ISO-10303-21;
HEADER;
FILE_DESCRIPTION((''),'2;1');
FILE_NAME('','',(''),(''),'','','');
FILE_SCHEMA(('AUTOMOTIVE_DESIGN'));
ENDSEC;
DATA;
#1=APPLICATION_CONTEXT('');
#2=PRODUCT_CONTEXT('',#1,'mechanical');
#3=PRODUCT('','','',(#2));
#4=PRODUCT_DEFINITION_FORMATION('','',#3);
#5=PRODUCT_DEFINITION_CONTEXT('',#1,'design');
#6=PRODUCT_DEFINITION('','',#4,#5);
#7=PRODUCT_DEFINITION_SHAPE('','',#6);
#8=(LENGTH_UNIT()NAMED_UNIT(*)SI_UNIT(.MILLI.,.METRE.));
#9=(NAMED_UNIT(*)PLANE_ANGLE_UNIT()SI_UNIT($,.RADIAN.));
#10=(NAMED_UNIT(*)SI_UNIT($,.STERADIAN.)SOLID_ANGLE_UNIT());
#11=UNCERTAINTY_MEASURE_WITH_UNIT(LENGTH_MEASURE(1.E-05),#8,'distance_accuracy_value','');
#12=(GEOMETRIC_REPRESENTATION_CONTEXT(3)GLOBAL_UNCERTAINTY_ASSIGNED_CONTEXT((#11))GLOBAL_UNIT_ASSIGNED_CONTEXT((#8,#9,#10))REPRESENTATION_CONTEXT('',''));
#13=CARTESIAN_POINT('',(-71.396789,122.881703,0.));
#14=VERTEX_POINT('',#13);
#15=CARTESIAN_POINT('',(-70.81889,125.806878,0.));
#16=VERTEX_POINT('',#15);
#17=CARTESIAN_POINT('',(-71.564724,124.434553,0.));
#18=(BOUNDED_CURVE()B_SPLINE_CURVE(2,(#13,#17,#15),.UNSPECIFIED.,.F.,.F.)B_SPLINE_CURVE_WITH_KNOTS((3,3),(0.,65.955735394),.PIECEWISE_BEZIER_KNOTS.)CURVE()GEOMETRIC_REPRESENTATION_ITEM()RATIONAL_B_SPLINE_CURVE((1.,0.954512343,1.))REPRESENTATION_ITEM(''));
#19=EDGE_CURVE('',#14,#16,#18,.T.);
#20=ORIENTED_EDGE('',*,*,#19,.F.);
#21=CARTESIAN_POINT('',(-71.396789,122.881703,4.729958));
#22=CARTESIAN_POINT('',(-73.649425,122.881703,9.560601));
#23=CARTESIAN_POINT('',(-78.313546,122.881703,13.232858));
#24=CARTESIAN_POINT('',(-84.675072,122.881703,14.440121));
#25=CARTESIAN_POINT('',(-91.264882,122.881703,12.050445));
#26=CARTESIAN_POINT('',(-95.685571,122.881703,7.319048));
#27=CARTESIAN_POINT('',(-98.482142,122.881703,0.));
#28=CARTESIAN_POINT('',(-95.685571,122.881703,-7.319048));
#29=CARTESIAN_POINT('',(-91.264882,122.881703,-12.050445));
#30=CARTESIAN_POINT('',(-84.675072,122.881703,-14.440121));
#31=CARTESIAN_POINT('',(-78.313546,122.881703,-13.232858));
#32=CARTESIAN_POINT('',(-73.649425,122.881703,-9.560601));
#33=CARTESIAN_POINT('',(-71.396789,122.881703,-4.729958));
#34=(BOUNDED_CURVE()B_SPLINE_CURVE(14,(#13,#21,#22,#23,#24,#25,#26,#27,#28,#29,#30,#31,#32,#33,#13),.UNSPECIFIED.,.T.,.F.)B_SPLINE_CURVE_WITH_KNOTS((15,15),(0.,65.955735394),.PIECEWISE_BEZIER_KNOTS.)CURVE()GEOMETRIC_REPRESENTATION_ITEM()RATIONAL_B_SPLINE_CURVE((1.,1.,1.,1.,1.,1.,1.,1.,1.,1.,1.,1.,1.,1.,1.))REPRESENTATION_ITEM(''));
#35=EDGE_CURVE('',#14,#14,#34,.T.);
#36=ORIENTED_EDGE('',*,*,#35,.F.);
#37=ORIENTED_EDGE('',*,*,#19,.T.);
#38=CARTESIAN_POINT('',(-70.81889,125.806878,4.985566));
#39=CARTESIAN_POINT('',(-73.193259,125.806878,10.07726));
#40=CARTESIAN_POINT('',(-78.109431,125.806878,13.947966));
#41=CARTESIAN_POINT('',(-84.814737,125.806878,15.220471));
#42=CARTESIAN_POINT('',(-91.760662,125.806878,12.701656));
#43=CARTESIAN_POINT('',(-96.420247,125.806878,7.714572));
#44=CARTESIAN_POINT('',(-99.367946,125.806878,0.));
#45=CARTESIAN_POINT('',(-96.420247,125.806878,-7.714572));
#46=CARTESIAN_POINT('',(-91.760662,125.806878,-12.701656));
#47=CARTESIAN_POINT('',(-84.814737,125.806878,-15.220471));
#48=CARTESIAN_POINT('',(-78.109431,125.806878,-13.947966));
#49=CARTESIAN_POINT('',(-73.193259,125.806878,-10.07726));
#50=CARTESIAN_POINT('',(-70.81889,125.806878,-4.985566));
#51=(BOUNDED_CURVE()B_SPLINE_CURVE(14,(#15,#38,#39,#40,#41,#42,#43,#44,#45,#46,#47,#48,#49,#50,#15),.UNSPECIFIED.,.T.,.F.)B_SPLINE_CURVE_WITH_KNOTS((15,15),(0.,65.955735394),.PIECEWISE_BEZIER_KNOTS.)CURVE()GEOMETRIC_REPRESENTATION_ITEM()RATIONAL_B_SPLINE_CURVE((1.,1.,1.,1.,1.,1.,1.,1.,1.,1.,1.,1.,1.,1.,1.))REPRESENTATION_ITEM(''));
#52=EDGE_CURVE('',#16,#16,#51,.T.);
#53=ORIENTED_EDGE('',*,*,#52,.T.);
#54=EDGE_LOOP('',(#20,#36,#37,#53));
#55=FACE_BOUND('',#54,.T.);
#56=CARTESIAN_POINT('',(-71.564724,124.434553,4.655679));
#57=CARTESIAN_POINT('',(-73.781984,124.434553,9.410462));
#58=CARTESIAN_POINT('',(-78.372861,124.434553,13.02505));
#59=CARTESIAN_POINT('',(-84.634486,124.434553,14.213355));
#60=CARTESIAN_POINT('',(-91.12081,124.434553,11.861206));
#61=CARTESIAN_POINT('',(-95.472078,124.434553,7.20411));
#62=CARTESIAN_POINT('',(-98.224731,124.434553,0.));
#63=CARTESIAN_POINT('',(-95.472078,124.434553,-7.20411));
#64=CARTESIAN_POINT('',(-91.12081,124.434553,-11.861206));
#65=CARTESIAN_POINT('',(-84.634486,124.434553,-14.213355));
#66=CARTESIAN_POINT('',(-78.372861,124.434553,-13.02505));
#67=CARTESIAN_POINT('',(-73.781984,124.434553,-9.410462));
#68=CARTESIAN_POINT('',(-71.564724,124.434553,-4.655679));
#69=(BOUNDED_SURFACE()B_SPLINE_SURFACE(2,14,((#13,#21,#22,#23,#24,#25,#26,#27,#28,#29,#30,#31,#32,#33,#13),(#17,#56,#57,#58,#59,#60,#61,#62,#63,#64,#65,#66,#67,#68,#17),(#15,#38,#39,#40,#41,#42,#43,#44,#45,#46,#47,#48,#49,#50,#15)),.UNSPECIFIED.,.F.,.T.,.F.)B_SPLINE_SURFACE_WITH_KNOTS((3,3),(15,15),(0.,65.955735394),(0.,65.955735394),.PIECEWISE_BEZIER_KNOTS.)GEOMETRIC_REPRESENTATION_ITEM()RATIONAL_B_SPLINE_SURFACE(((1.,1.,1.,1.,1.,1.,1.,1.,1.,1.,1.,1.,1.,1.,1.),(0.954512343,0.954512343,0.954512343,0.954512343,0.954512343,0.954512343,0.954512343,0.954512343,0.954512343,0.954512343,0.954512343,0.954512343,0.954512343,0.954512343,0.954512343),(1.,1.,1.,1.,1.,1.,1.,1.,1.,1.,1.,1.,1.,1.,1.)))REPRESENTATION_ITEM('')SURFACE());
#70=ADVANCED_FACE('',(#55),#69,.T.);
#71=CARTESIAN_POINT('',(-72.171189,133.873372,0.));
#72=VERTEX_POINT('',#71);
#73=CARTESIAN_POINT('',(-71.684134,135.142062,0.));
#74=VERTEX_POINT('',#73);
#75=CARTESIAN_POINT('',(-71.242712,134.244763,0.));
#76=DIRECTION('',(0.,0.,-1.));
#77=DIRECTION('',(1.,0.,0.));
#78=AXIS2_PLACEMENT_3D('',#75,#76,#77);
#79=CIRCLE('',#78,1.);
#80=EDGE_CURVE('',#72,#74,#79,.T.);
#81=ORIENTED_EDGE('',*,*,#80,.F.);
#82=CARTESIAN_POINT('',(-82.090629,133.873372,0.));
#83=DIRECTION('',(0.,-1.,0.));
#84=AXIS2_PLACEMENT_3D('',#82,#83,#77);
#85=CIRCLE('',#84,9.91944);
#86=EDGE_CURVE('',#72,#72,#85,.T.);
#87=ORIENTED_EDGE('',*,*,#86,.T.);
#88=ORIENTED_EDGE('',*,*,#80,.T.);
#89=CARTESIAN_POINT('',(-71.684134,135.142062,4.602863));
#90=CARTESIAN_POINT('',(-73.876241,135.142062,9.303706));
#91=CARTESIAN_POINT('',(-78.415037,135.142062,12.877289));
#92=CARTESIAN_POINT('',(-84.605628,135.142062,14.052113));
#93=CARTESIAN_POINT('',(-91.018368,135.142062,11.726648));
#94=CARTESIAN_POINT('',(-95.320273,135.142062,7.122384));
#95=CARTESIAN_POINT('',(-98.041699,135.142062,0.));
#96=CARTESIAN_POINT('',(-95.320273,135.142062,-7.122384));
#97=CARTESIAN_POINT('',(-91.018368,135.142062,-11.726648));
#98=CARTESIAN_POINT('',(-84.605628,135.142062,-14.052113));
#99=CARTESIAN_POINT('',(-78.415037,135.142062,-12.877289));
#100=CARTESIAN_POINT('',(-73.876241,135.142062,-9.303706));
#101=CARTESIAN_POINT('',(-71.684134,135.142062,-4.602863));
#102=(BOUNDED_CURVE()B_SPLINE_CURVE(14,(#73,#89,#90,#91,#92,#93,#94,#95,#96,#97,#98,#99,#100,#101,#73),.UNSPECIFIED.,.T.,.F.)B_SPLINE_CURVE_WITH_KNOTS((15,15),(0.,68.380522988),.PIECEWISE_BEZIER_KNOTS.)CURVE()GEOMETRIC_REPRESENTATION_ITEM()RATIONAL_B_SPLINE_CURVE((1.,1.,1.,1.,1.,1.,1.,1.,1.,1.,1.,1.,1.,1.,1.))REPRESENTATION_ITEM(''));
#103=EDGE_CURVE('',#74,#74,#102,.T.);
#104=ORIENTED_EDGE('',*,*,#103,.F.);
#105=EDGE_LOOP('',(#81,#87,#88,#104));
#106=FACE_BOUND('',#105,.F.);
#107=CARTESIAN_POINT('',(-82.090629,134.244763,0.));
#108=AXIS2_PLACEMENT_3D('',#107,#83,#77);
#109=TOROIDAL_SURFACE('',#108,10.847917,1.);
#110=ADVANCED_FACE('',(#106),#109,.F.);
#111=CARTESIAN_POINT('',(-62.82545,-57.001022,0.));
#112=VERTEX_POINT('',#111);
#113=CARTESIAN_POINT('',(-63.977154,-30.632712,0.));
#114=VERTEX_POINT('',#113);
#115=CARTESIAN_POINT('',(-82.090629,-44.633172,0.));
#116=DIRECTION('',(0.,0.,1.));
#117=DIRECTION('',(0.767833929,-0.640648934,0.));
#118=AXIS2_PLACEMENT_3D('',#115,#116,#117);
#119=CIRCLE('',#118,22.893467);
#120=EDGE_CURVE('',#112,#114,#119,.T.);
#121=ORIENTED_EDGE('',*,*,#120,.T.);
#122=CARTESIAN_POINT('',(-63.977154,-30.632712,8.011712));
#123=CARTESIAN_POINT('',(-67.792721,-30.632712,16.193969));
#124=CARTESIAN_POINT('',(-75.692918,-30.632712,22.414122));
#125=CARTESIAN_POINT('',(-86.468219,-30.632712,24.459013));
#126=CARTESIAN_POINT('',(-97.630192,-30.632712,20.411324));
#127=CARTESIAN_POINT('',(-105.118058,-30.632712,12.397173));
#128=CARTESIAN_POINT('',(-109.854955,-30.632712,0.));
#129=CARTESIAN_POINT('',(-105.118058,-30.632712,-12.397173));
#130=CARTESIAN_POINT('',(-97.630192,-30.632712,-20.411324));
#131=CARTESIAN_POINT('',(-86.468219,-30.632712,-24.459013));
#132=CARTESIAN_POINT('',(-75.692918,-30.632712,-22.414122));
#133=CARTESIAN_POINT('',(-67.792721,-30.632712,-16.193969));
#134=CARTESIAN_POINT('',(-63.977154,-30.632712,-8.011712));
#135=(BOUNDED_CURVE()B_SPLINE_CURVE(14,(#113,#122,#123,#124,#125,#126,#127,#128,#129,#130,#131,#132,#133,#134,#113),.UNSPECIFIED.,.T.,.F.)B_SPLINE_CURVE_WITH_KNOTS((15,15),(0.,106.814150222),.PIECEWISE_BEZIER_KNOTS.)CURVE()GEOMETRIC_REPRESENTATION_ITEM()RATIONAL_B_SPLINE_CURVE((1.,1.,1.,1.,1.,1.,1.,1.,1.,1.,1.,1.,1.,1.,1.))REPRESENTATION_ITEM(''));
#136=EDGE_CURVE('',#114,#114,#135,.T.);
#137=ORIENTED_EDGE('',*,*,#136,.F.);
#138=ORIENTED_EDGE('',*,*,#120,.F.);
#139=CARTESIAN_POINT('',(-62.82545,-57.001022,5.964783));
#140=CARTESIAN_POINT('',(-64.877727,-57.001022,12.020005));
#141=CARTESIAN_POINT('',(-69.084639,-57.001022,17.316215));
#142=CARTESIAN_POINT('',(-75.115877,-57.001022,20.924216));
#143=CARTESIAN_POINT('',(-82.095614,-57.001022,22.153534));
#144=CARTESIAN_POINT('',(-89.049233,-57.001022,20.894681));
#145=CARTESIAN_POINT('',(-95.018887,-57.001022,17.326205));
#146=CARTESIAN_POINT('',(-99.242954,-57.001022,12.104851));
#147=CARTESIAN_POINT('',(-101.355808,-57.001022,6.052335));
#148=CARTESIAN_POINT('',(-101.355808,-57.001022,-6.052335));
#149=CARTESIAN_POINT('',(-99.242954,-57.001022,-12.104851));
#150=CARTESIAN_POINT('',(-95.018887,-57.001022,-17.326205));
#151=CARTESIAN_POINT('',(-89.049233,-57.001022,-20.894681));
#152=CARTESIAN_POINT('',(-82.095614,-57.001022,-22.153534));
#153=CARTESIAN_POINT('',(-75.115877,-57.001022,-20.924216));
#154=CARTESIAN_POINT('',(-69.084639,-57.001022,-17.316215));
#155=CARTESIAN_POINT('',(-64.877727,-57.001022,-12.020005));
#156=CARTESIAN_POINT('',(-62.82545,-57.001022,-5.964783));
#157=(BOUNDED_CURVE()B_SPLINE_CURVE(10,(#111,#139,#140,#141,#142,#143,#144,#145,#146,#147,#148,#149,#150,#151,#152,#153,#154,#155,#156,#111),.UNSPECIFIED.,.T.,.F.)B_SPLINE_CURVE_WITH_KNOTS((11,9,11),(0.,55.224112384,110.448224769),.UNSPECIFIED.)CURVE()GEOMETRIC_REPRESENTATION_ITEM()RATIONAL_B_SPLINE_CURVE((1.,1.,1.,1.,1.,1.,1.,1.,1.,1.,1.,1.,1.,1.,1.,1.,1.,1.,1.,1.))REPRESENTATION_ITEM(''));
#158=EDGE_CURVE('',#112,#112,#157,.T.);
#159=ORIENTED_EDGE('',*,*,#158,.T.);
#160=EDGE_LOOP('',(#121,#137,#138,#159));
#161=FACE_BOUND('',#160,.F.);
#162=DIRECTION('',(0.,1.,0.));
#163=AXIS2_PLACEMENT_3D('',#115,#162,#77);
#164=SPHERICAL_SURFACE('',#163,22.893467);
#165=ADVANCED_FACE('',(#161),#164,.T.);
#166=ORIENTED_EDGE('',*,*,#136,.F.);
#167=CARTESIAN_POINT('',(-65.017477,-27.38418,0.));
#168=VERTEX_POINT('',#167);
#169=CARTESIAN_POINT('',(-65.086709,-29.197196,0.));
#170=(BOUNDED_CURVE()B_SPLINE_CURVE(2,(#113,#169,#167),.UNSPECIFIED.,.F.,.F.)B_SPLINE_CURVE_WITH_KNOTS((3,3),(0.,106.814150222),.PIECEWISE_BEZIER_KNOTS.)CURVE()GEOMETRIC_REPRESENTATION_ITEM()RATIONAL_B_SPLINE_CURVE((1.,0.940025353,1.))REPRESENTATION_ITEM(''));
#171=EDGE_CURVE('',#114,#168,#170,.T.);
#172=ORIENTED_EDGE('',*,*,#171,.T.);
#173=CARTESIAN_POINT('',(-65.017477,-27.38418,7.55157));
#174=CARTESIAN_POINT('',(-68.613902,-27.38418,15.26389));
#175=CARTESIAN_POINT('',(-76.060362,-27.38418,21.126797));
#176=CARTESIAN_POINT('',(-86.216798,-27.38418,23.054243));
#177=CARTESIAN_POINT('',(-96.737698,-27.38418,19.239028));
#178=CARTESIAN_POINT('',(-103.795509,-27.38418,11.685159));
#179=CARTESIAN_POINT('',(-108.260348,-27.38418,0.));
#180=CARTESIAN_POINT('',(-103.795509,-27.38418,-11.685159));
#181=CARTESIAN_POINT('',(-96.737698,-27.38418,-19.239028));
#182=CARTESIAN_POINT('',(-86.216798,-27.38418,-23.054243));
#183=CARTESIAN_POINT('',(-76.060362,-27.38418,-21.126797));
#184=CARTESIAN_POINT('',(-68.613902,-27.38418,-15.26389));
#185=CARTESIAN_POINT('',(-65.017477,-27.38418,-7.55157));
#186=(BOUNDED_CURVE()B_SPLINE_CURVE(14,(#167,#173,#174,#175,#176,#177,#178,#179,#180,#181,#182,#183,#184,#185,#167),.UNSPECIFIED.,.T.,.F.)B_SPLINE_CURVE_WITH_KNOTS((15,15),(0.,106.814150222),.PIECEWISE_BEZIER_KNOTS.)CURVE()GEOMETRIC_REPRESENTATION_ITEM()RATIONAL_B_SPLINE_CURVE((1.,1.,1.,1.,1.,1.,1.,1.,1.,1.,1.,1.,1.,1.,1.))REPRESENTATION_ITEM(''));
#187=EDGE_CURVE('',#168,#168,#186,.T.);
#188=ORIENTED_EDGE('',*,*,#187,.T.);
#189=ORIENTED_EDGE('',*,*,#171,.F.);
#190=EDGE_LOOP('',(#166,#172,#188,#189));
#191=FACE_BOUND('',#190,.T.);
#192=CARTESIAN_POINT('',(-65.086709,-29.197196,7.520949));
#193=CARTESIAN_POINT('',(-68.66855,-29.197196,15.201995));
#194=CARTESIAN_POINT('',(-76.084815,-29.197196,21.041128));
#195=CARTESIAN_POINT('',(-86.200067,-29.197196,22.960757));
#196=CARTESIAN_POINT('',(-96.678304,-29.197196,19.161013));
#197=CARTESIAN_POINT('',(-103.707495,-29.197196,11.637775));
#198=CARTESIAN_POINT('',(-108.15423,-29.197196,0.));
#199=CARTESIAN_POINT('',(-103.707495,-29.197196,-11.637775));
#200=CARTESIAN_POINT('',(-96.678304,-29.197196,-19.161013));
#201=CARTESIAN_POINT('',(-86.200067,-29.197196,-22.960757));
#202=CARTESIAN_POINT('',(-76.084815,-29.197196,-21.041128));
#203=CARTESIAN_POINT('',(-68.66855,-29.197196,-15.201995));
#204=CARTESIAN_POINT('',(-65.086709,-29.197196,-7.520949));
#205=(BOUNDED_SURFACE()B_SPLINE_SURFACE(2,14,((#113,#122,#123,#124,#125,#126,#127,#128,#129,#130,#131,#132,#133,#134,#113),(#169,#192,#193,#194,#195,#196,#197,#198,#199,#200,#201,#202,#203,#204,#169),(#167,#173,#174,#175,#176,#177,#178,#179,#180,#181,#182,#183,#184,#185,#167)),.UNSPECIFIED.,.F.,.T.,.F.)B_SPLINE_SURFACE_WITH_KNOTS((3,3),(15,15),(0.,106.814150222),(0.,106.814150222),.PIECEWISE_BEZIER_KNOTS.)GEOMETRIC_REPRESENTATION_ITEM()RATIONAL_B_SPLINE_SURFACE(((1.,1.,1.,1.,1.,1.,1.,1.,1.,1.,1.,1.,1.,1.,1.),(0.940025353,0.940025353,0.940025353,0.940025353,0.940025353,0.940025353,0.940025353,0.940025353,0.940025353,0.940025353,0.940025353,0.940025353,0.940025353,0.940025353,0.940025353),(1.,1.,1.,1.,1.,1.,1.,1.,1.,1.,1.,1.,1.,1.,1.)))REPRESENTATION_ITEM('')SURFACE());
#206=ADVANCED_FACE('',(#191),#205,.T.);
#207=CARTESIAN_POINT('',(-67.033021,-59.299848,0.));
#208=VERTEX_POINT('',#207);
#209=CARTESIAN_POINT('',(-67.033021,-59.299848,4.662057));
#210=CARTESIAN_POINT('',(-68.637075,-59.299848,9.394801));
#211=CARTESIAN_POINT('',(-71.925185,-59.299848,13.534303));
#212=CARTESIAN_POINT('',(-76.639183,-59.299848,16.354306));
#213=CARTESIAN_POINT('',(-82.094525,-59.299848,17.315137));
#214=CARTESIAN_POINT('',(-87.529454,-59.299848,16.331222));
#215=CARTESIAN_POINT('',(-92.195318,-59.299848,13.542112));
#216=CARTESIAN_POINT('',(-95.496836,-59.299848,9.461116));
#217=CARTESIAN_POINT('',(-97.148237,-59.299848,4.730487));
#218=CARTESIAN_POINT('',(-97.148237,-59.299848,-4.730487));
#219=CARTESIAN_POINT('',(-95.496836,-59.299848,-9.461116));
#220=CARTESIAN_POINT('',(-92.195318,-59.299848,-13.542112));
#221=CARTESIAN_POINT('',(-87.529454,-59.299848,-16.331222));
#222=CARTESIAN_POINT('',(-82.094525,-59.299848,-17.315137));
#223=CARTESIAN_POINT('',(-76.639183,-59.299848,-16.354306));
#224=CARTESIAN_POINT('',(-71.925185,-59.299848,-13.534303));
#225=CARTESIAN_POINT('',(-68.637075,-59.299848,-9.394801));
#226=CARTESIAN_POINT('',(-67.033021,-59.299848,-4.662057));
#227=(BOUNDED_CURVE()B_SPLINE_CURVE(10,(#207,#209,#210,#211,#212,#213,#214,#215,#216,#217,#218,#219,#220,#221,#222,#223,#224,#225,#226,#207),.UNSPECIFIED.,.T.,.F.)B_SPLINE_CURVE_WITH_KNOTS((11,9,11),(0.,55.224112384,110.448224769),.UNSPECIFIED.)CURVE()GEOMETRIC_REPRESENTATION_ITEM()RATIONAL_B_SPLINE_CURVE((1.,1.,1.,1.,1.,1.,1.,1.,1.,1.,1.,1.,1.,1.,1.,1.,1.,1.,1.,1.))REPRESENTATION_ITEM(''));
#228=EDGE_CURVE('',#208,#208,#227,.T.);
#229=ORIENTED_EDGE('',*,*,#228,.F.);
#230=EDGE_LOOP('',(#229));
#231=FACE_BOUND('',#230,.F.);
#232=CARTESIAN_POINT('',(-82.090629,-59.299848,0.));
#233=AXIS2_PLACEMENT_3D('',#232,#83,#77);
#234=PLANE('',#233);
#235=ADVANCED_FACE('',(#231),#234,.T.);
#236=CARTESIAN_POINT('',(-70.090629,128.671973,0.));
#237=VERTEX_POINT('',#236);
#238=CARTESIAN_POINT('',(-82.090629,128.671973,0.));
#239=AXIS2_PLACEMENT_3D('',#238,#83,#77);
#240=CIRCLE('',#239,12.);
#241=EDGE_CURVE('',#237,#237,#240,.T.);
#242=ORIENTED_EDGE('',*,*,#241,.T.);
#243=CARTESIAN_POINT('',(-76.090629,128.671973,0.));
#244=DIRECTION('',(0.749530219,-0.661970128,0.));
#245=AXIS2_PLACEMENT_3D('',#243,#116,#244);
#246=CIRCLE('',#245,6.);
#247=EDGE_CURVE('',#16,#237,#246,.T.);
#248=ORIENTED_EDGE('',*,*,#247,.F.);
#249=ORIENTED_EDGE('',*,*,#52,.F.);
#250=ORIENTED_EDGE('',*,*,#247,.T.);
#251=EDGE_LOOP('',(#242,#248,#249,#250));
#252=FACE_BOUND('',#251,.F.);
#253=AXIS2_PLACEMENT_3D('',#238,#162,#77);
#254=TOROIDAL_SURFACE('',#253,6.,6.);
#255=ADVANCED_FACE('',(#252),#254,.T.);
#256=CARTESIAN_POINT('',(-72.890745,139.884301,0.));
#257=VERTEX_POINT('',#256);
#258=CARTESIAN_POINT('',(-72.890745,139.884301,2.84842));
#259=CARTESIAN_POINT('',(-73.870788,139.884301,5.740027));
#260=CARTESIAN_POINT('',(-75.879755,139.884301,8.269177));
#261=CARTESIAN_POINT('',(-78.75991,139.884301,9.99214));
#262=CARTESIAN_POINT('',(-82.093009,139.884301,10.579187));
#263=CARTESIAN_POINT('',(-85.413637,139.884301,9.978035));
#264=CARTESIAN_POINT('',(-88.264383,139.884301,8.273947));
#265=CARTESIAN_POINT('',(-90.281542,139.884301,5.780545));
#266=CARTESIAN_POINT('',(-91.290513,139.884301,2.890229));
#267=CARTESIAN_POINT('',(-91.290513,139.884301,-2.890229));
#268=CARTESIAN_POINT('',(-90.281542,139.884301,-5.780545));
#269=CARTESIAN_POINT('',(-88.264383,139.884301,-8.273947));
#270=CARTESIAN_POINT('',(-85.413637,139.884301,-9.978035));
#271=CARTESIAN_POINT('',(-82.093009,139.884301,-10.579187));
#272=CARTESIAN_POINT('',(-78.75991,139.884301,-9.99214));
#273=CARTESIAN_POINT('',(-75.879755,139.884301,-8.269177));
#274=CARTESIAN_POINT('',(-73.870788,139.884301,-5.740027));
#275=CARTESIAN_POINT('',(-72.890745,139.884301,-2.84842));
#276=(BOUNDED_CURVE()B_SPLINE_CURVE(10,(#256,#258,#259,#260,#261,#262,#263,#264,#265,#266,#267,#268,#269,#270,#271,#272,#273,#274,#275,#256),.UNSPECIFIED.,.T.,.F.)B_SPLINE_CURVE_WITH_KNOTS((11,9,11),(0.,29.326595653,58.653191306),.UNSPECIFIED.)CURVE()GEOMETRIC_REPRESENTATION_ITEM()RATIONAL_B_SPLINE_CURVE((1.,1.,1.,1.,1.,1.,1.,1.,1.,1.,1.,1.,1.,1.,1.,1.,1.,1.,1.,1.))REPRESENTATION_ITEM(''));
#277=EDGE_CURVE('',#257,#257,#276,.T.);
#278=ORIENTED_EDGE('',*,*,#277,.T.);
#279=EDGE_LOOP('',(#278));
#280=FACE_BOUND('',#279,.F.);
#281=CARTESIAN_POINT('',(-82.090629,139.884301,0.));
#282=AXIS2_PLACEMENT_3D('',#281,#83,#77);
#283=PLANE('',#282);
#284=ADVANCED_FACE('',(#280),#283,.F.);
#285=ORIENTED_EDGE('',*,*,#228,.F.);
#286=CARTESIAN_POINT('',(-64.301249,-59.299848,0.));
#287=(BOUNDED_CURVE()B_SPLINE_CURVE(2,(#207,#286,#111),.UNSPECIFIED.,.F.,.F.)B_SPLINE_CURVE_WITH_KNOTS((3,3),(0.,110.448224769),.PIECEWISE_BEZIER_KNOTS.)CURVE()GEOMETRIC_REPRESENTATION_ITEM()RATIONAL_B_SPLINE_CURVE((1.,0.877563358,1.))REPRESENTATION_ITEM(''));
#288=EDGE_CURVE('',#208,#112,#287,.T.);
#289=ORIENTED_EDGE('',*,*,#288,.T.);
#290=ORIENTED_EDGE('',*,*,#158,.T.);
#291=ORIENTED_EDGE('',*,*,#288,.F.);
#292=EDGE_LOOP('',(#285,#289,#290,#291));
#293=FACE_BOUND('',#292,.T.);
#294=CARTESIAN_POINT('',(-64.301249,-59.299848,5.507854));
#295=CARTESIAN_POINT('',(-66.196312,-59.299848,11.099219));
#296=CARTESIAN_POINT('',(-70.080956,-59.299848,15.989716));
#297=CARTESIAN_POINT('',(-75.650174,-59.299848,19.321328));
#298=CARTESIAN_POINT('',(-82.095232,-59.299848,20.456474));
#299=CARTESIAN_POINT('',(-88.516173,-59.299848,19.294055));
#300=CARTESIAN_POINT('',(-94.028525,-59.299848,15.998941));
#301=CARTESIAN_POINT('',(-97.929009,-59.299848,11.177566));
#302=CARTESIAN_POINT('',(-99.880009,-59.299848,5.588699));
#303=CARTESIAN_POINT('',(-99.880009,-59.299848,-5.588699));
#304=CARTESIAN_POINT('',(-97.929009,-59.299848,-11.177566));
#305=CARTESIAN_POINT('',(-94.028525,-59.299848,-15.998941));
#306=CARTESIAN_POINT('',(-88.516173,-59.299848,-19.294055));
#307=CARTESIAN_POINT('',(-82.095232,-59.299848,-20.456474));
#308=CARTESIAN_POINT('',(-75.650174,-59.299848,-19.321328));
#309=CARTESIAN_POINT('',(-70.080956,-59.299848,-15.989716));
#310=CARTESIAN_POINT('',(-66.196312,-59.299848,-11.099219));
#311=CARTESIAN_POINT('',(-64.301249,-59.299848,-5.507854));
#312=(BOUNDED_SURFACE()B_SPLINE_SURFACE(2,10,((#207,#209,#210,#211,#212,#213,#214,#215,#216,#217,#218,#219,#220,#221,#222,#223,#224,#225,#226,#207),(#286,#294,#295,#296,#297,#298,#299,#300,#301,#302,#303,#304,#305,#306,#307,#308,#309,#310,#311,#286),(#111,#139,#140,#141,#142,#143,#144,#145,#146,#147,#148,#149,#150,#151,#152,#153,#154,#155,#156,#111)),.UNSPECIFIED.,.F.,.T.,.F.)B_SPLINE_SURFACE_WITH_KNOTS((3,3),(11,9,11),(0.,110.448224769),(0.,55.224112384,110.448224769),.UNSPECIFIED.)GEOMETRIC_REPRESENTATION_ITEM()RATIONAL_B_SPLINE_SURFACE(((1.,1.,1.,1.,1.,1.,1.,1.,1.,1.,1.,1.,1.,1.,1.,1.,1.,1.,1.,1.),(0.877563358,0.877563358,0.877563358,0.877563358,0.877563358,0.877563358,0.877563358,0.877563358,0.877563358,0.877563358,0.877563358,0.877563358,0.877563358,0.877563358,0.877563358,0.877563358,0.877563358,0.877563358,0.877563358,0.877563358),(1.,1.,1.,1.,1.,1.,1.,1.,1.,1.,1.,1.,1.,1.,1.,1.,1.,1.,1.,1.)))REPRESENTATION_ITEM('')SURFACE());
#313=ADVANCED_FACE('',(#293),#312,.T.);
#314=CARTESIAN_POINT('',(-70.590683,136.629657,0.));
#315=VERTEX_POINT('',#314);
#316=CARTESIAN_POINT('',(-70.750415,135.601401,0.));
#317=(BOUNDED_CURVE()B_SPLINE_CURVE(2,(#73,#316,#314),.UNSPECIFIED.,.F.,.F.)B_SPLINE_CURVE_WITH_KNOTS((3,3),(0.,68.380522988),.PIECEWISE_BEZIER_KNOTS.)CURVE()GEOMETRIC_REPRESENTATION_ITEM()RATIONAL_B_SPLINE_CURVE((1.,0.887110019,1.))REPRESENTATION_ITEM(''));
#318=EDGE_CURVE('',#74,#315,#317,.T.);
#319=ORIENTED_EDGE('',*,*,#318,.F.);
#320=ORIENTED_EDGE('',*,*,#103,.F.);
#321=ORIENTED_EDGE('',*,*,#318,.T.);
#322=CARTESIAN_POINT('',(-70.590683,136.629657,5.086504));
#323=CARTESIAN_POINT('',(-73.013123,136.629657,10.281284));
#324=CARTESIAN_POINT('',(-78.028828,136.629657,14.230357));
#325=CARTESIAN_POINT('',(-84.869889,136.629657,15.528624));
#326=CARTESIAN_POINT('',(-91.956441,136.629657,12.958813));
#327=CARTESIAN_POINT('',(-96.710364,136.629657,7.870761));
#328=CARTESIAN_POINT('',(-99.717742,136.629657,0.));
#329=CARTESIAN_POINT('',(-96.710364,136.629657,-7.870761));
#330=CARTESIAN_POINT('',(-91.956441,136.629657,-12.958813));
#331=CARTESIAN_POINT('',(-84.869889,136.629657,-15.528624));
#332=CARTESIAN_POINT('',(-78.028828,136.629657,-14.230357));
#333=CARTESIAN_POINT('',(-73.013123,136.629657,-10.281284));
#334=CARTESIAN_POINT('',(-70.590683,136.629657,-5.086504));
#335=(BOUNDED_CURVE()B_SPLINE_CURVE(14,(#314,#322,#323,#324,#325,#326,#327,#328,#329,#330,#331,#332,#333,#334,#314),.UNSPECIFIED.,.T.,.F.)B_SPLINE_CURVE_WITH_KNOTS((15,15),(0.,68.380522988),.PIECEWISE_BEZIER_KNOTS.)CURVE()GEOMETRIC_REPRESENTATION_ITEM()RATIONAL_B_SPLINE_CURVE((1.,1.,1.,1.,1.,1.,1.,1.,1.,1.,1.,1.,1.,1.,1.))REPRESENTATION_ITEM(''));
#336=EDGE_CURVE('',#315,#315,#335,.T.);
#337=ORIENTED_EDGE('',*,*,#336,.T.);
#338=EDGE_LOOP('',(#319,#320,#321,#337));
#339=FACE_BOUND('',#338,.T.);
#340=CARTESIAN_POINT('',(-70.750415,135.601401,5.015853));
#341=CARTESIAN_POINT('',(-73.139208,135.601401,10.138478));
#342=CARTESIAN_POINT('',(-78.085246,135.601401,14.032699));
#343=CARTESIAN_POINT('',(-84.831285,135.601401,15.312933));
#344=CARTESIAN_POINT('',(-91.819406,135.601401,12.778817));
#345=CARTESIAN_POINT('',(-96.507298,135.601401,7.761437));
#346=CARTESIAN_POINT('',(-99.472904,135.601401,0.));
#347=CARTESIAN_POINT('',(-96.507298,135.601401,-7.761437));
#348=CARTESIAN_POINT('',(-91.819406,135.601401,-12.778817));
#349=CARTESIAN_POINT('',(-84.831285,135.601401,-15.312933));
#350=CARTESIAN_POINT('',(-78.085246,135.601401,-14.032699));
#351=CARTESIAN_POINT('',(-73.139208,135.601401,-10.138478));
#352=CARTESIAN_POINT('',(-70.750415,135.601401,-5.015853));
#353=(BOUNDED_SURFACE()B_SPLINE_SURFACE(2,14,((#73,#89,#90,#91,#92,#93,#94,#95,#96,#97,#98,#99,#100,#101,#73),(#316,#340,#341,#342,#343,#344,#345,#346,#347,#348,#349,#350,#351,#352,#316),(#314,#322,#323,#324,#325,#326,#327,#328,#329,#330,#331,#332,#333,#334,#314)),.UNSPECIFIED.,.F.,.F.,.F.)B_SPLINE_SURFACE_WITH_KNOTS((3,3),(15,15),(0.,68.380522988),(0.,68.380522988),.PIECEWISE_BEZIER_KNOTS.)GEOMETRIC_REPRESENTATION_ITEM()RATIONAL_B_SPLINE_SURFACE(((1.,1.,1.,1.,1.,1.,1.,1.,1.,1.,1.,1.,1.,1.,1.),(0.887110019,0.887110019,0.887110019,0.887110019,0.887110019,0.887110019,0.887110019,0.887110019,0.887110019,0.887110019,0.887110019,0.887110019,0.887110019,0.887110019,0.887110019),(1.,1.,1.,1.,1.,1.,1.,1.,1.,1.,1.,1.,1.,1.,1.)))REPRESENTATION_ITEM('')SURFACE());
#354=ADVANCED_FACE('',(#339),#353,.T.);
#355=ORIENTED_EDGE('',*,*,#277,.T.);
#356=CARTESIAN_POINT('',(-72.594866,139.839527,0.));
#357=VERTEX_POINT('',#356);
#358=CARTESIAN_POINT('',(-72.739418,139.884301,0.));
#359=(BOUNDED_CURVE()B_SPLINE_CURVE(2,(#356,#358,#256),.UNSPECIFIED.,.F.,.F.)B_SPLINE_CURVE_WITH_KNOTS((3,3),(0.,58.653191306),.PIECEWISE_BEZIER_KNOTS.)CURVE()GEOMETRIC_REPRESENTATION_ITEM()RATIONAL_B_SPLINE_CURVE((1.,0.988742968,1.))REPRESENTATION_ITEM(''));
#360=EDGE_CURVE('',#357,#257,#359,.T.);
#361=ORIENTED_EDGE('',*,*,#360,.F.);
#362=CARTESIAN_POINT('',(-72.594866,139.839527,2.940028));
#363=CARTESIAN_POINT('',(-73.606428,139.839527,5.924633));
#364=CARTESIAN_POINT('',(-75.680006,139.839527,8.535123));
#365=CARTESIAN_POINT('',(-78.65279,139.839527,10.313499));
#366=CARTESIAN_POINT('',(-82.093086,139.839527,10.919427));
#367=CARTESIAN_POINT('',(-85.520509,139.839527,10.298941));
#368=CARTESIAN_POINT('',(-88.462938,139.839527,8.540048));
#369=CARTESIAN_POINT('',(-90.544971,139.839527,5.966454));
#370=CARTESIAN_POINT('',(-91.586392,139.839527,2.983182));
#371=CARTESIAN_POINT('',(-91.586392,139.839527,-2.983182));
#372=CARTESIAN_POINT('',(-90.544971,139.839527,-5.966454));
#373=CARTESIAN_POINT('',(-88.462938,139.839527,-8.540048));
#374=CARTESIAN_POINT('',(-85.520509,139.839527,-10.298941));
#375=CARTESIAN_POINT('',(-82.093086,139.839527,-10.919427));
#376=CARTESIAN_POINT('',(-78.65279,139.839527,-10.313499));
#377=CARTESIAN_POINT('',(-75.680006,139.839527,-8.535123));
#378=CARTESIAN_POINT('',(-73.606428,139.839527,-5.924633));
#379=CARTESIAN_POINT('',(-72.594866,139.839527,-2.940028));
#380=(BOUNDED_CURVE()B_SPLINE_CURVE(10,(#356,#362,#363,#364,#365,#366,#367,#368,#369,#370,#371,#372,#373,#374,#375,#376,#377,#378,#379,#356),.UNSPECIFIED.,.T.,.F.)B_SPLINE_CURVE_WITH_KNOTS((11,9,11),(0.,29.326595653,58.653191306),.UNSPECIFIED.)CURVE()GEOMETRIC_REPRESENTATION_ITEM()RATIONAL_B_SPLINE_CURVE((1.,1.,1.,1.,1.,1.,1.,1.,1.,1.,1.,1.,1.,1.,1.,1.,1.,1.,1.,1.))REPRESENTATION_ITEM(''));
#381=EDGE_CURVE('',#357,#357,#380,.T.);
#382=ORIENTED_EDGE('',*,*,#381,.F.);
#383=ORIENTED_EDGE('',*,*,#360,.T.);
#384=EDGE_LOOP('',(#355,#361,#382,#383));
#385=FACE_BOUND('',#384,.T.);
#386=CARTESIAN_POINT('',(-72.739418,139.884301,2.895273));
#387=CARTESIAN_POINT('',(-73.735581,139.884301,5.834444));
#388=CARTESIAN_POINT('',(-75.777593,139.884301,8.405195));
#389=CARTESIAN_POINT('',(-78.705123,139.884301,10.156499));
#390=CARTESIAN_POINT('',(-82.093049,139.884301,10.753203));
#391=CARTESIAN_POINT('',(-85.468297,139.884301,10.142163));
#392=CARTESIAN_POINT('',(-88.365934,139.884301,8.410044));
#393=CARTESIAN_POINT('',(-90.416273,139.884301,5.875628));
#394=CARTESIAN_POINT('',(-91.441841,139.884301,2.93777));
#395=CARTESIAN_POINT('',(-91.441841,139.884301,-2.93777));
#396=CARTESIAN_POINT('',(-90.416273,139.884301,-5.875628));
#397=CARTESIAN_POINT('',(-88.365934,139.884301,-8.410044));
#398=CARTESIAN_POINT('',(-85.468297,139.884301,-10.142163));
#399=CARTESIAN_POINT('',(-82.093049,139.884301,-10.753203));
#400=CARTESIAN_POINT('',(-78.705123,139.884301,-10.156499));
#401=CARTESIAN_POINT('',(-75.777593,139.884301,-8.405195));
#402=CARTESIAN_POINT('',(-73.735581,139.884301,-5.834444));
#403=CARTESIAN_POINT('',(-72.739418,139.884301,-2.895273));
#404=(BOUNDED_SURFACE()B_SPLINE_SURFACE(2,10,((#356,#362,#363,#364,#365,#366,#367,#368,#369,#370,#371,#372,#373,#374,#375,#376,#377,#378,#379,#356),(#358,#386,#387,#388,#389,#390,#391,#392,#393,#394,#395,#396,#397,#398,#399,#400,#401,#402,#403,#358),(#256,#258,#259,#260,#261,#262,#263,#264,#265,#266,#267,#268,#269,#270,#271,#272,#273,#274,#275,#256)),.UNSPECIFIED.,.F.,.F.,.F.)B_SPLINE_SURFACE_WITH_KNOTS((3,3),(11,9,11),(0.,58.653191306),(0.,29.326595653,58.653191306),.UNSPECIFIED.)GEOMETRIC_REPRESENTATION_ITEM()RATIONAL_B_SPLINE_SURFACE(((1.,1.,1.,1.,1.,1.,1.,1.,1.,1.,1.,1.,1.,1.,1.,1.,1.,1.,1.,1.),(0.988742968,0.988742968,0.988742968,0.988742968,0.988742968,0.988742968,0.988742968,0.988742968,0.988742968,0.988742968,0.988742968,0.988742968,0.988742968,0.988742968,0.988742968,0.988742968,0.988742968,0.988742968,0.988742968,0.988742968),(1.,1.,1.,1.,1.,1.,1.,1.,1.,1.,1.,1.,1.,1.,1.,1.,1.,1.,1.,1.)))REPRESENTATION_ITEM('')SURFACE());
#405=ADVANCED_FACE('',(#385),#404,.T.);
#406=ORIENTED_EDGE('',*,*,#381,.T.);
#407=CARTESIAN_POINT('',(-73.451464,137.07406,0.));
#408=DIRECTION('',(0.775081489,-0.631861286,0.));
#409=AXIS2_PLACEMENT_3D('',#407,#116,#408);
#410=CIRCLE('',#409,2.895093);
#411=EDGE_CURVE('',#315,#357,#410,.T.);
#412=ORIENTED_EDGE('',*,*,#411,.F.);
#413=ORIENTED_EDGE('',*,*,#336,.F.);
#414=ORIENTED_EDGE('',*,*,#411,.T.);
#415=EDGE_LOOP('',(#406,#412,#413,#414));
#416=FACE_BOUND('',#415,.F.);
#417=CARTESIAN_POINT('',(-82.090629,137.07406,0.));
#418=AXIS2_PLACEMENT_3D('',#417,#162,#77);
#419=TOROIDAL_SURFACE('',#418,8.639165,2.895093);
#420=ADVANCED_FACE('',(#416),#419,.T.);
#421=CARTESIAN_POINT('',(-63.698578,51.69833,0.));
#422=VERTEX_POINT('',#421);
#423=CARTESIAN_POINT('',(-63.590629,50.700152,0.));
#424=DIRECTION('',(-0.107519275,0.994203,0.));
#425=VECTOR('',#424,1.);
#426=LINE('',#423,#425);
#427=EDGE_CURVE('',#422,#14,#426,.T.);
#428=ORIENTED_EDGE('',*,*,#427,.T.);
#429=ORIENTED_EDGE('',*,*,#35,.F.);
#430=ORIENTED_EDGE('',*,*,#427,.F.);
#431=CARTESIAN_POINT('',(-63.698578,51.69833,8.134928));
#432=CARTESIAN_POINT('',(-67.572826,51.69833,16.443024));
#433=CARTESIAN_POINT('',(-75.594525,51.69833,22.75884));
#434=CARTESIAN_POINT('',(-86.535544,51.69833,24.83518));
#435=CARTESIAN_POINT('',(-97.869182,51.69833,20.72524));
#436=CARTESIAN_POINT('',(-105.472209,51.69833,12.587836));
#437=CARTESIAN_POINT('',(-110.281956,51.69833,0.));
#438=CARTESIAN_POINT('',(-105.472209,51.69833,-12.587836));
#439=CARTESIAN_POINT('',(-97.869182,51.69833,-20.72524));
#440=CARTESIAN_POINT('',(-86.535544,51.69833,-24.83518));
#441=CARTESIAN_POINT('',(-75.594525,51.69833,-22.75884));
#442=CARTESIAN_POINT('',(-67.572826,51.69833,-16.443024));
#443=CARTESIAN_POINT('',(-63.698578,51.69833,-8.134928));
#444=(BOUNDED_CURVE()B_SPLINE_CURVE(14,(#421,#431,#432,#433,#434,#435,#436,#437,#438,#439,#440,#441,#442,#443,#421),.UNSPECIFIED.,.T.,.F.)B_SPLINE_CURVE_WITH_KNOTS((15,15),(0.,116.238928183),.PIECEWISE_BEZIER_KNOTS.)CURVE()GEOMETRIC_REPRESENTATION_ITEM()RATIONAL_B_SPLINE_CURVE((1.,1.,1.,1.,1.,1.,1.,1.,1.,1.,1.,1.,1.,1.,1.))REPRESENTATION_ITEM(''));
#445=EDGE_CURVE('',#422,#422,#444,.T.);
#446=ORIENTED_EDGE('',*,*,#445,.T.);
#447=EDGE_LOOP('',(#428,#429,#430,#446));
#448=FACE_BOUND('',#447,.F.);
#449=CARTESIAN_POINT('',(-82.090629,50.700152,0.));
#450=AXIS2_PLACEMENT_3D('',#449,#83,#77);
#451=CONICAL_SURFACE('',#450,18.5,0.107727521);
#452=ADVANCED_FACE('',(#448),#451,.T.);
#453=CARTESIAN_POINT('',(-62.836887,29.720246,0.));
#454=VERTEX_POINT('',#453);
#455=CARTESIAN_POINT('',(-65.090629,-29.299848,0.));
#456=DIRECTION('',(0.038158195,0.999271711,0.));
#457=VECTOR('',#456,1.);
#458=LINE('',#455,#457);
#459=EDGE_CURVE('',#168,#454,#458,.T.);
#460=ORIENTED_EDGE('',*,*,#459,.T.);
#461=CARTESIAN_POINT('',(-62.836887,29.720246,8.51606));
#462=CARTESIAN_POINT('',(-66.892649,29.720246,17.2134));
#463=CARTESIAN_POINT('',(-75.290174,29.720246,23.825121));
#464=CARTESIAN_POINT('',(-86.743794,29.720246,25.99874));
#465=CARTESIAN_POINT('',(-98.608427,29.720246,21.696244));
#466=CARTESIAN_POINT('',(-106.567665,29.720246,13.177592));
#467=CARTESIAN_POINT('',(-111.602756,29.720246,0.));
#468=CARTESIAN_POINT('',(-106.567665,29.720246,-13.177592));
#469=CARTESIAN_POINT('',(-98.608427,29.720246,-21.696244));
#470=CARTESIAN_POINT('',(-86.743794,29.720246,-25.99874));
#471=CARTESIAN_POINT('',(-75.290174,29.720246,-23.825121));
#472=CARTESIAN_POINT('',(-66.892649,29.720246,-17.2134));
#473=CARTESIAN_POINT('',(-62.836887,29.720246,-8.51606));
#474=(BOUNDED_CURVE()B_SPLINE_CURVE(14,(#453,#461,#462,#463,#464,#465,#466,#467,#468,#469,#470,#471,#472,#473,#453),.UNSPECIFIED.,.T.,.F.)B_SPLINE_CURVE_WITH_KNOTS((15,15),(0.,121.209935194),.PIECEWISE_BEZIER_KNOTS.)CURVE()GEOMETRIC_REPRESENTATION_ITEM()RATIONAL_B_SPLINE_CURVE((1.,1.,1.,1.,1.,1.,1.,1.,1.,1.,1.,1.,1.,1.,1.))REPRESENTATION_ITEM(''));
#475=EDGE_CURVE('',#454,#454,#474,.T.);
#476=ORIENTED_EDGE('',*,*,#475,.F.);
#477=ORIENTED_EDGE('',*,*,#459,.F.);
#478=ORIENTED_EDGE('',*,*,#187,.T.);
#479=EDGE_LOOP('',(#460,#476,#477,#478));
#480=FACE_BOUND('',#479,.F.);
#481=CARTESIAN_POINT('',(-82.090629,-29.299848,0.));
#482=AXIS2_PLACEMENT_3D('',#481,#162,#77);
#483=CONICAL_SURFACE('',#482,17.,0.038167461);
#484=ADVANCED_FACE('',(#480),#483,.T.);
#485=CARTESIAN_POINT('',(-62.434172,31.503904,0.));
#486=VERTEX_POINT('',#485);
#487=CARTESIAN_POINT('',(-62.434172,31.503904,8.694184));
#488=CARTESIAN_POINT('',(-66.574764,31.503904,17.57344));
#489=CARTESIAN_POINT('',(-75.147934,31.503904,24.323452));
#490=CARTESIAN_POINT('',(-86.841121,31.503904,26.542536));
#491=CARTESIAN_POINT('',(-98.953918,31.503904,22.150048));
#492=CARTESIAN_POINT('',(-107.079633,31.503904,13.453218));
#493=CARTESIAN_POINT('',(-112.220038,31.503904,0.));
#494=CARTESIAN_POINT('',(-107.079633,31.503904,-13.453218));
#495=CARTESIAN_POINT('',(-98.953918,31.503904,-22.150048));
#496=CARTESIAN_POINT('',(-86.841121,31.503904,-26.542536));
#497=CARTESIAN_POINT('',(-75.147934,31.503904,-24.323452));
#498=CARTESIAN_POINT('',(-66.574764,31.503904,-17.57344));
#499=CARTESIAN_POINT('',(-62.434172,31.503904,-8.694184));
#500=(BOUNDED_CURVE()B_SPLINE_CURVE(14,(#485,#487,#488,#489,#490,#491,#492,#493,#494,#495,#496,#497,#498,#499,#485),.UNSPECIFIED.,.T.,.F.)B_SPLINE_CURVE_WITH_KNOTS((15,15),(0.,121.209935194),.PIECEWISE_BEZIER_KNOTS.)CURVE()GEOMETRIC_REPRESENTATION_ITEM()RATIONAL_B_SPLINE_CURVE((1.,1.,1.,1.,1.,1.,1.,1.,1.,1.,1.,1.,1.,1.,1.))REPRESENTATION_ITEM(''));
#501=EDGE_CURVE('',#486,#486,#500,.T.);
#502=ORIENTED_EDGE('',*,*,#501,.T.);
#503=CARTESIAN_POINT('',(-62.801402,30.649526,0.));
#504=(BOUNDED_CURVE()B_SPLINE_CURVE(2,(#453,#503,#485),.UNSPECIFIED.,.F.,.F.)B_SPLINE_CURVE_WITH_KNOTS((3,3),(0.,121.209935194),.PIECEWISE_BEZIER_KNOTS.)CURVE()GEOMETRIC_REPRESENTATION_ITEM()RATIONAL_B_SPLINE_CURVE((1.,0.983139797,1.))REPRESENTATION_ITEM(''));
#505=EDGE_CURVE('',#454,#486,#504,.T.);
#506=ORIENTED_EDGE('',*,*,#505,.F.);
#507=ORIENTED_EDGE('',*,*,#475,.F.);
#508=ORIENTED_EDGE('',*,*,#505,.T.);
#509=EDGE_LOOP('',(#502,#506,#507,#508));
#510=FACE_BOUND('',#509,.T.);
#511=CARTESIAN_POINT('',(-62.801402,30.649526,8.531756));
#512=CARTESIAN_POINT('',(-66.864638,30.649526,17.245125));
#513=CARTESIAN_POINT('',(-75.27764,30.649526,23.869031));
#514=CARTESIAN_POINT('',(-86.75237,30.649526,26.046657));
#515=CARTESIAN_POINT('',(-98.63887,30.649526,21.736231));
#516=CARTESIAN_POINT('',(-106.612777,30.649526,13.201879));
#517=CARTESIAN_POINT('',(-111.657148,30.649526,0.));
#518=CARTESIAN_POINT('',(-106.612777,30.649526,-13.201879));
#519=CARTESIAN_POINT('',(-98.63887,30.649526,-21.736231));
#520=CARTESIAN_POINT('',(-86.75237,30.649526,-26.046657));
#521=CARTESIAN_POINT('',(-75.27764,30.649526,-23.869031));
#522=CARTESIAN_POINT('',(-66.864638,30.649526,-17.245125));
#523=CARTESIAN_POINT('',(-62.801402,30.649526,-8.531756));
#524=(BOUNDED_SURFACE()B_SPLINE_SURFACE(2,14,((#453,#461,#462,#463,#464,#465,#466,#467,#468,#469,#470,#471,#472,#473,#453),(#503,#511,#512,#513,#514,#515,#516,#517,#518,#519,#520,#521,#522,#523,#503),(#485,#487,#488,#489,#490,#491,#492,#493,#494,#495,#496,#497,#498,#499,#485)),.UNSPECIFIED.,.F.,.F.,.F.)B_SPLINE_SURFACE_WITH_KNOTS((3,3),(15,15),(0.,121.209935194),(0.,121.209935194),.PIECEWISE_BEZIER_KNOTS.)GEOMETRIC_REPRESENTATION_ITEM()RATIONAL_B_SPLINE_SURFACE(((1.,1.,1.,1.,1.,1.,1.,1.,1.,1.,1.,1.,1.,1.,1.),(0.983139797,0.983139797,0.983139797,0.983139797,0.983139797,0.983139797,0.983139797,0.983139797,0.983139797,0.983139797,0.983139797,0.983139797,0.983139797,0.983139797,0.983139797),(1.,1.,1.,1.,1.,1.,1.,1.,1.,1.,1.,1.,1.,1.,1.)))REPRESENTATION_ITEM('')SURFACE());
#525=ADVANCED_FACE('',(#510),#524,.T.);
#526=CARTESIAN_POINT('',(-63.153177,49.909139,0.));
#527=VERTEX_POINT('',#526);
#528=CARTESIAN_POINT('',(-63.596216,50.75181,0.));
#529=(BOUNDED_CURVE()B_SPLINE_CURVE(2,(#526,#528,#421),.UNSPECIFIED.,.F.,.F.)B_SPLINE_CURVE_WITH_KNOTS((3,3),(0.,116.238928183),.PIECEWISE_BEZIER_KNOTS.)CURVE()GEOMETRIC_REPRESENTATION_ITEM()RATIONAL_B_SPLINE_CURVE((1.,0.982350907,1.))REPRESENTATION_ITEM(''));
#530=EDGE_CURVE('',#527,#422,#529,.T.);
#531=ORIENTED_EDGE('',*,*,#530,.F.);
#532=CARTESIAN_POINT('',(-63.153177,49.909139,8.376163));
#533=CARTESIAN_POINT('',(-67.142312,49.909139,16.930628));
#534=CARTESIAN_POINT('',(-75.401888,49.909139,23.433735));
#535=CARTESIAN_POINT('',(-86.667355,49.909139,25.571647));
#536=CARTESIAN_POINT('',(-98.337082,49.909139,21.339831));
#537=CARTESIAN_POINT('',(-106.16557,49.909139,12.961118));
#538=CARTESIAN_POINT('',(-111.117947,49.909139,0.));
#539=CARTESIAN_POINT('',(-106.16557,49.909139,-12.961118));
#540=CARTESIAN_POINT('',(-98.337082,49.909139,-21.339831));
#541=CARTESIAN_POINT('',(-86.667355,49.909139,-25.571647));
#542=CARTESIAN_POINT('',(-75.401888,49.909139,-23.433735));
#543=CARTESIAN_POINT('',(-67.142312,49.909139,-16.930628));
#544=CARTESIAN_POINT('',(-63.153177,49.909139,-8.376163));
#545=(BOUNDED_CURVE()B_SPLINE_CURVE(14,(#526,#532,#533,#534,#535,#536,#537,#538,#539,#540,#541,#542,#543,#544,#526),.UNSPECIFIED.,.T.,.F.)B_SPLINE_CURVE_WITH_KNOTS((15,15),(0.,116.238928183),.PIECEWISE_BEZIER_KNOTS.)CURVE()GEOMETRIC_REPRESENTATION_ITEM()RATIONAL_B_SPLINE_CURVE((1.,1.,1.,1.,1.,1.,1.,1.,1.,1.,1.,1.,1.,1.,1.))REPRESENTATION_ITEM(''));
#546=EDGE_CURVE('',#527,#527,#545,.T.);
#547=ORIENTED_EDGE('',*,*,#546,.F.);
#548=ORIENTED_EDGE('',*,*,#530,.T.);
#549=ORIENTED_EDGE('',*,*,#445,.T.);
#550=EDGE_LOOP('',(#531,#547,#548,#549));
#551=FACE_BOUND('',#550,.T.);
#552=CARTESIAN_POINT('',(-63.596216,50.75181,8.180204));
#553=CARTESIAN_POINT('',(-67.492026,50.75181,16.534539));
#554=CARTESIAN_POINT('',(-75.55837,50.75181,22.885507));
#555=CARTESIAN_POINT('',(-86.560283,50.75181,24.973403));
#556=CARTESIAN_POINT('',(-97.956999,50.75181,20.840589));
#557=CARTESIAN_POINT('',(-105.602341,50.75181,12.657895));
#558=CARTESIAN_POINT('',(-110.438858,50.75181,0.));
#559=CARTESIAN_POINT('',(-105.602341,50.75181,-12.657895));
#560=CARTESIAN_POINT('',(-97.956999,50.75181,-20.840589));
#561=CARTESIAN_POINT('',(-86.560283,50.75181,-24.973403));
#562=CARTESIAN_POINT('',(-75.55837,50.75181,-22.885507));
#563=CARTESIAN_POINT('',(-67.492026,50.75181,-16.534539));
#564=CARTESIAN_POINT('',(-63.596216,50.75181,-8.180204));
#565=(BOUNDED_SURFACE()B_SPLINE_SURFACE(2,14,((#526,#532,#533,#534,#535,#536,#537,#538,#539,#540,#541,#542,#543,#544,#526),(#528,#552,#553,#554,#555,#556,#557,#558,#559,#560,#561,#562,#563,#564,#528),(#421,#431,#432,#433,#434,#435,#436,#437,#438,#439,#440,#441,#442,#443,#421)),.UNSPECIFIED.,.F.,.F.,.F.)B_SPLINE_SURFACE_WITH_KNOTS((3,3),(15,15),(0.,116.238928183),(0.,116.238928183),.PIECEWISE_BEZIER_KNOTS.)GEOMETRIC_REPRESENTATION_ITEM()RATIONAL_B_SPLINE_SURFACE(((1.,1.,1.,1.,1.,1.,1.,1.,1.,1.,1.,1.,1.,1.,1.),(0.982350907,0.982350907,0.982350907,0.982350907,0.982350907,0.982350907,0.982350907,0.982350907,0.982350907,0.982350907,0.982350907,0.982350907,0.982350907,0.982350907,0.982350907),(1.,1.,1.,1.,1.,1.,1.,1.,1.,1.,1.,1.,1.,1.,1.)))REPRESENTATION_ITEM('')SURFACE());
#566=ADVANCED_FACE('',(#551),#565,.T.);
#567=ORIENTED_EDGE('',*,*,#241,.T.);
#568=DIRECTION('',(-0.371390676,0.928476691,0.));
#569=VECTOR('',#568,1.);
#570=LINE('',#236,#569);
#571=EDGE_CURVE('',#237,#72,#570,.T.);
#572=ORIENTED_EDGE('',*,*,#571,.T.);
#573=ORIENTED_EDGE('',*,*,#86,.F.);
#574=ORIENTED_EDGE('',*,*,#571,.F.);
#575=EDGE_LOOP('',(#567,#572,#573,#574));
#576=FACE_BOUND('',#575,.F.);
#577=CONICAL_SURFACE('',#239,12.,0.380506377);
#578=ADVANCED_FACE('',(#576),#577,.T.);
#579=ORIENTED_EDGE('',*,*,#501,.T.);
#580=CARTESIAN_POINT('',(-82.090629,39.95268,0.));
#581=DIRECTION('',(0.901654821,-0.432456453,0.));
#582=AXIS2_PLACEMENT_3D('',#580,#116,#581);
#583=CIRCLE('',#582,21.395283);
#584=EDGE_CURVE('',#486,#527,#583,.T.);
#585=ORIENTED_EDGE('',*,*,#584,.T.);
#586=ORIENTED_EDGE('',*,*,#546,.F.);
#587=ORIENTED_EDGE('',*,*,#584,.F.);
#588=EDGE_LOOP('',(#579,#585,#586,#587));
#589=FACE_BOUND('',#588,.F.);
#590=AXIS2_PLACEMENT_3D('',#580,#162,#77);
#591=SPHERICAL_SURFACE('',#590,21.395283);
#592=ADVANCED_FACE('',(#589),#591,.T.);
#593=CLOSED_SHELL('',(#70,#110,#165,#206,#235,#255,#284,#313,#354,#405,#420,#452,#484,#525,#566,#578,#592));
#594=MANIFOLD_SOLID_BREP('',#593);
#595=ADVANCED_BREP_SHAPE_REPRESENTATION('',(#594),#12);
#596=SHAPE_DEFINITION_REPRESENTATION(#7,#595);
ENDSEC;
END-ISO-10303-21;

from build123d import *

# Parameters (mm, degrees)
F2_R = 5
F3_R = 1
F4_R = 2
F5_R = 1


with BuildPart() as f1:
    # F0 (on Top) → F1 (revolve)
    with BuildSketch(Plane.XY):
        with BuildLine():
            Line((-82.0906290412, 139.8843014733), (-82.0906290412, -59.2998478518))
            Line((-82.0906290412, -59.2998478518), (-64.5122481135, -59.2998478518))
            ThreePointArc((-64.5122481135, -59.2998478518), (-59.2014152737, -44.1918829627), (-65.0906290412, -29.2998478518))
            Line((-65.0906290412, -29.2998478518), (-62.7994687032, 30.7001521482))
            ThreePointArc((-62.7994687032, 30.7001521482), (-60.712066182, 40.7983740194), (-63.5906290412, 50.7001521482))
            Line((-63.5906290412, 50.7001521482), (-71.593447728, 124.7001521482))
            ThreePointArc((-71.593447728, 124.7001521482), (-70.4788963373, 126.5486603985), (-70.0906290412, 128.6719729191))
            Line((-70.0906290412, 128.6719729191), (-72.7197450747, 135.2447630028))
            Line((-72.7197450747, 135.2447630028), (-71.2075307965, 135.2447630028))
            ThreePointArc((-71.2075307965, 135.2447630028), (-70.7052287434, 137.9904429478), (-72.7556837168, 139.8843014733))
            Line((-72.7556837168, 139.8843014733), (-82.0906290412, 139.8843014733))
        make_face()
    revolve(axis=Axis((-82.0906290412, 40.2922268108, 0), (0, -1, 0)))

    # F2
    f2_edges = [f1.edges().sort_by_distance(p)[0] for p in [
        (-100.590629, 50.700152, 0),
        (-101.381789, 30.700152, 0),
        (-99.090629, -29.299848, 0),
        (-99.66901, -59.299848, 0),
        (-92.58781, 124.700152, 0),
    ]]
    fillet(f2_edges, radius=F2_R)

    # F3
    f3_edges = [f1.edges().sort_by_distance(p)[0] for p in [
        (-91.461513, 135.244763, 0),
    ]]
    fillet(f3_edges, radius=F3_R)

    # F4
    f4_edges = [f1.edges().sort_by_distance(p)[0] for p in [
        (-92.973727, 135.244763, 0),
    ]]
    fillet(f4_edges, radius=F4_R)

    # F5
    f5_edges = [f1.edges().sort_by_distance(p)[0] for p in [
        (-91.425574, 139.884301, 0),
    ]]
    fillet(f5_edges, radius=F5_R)


solid = f1.part
